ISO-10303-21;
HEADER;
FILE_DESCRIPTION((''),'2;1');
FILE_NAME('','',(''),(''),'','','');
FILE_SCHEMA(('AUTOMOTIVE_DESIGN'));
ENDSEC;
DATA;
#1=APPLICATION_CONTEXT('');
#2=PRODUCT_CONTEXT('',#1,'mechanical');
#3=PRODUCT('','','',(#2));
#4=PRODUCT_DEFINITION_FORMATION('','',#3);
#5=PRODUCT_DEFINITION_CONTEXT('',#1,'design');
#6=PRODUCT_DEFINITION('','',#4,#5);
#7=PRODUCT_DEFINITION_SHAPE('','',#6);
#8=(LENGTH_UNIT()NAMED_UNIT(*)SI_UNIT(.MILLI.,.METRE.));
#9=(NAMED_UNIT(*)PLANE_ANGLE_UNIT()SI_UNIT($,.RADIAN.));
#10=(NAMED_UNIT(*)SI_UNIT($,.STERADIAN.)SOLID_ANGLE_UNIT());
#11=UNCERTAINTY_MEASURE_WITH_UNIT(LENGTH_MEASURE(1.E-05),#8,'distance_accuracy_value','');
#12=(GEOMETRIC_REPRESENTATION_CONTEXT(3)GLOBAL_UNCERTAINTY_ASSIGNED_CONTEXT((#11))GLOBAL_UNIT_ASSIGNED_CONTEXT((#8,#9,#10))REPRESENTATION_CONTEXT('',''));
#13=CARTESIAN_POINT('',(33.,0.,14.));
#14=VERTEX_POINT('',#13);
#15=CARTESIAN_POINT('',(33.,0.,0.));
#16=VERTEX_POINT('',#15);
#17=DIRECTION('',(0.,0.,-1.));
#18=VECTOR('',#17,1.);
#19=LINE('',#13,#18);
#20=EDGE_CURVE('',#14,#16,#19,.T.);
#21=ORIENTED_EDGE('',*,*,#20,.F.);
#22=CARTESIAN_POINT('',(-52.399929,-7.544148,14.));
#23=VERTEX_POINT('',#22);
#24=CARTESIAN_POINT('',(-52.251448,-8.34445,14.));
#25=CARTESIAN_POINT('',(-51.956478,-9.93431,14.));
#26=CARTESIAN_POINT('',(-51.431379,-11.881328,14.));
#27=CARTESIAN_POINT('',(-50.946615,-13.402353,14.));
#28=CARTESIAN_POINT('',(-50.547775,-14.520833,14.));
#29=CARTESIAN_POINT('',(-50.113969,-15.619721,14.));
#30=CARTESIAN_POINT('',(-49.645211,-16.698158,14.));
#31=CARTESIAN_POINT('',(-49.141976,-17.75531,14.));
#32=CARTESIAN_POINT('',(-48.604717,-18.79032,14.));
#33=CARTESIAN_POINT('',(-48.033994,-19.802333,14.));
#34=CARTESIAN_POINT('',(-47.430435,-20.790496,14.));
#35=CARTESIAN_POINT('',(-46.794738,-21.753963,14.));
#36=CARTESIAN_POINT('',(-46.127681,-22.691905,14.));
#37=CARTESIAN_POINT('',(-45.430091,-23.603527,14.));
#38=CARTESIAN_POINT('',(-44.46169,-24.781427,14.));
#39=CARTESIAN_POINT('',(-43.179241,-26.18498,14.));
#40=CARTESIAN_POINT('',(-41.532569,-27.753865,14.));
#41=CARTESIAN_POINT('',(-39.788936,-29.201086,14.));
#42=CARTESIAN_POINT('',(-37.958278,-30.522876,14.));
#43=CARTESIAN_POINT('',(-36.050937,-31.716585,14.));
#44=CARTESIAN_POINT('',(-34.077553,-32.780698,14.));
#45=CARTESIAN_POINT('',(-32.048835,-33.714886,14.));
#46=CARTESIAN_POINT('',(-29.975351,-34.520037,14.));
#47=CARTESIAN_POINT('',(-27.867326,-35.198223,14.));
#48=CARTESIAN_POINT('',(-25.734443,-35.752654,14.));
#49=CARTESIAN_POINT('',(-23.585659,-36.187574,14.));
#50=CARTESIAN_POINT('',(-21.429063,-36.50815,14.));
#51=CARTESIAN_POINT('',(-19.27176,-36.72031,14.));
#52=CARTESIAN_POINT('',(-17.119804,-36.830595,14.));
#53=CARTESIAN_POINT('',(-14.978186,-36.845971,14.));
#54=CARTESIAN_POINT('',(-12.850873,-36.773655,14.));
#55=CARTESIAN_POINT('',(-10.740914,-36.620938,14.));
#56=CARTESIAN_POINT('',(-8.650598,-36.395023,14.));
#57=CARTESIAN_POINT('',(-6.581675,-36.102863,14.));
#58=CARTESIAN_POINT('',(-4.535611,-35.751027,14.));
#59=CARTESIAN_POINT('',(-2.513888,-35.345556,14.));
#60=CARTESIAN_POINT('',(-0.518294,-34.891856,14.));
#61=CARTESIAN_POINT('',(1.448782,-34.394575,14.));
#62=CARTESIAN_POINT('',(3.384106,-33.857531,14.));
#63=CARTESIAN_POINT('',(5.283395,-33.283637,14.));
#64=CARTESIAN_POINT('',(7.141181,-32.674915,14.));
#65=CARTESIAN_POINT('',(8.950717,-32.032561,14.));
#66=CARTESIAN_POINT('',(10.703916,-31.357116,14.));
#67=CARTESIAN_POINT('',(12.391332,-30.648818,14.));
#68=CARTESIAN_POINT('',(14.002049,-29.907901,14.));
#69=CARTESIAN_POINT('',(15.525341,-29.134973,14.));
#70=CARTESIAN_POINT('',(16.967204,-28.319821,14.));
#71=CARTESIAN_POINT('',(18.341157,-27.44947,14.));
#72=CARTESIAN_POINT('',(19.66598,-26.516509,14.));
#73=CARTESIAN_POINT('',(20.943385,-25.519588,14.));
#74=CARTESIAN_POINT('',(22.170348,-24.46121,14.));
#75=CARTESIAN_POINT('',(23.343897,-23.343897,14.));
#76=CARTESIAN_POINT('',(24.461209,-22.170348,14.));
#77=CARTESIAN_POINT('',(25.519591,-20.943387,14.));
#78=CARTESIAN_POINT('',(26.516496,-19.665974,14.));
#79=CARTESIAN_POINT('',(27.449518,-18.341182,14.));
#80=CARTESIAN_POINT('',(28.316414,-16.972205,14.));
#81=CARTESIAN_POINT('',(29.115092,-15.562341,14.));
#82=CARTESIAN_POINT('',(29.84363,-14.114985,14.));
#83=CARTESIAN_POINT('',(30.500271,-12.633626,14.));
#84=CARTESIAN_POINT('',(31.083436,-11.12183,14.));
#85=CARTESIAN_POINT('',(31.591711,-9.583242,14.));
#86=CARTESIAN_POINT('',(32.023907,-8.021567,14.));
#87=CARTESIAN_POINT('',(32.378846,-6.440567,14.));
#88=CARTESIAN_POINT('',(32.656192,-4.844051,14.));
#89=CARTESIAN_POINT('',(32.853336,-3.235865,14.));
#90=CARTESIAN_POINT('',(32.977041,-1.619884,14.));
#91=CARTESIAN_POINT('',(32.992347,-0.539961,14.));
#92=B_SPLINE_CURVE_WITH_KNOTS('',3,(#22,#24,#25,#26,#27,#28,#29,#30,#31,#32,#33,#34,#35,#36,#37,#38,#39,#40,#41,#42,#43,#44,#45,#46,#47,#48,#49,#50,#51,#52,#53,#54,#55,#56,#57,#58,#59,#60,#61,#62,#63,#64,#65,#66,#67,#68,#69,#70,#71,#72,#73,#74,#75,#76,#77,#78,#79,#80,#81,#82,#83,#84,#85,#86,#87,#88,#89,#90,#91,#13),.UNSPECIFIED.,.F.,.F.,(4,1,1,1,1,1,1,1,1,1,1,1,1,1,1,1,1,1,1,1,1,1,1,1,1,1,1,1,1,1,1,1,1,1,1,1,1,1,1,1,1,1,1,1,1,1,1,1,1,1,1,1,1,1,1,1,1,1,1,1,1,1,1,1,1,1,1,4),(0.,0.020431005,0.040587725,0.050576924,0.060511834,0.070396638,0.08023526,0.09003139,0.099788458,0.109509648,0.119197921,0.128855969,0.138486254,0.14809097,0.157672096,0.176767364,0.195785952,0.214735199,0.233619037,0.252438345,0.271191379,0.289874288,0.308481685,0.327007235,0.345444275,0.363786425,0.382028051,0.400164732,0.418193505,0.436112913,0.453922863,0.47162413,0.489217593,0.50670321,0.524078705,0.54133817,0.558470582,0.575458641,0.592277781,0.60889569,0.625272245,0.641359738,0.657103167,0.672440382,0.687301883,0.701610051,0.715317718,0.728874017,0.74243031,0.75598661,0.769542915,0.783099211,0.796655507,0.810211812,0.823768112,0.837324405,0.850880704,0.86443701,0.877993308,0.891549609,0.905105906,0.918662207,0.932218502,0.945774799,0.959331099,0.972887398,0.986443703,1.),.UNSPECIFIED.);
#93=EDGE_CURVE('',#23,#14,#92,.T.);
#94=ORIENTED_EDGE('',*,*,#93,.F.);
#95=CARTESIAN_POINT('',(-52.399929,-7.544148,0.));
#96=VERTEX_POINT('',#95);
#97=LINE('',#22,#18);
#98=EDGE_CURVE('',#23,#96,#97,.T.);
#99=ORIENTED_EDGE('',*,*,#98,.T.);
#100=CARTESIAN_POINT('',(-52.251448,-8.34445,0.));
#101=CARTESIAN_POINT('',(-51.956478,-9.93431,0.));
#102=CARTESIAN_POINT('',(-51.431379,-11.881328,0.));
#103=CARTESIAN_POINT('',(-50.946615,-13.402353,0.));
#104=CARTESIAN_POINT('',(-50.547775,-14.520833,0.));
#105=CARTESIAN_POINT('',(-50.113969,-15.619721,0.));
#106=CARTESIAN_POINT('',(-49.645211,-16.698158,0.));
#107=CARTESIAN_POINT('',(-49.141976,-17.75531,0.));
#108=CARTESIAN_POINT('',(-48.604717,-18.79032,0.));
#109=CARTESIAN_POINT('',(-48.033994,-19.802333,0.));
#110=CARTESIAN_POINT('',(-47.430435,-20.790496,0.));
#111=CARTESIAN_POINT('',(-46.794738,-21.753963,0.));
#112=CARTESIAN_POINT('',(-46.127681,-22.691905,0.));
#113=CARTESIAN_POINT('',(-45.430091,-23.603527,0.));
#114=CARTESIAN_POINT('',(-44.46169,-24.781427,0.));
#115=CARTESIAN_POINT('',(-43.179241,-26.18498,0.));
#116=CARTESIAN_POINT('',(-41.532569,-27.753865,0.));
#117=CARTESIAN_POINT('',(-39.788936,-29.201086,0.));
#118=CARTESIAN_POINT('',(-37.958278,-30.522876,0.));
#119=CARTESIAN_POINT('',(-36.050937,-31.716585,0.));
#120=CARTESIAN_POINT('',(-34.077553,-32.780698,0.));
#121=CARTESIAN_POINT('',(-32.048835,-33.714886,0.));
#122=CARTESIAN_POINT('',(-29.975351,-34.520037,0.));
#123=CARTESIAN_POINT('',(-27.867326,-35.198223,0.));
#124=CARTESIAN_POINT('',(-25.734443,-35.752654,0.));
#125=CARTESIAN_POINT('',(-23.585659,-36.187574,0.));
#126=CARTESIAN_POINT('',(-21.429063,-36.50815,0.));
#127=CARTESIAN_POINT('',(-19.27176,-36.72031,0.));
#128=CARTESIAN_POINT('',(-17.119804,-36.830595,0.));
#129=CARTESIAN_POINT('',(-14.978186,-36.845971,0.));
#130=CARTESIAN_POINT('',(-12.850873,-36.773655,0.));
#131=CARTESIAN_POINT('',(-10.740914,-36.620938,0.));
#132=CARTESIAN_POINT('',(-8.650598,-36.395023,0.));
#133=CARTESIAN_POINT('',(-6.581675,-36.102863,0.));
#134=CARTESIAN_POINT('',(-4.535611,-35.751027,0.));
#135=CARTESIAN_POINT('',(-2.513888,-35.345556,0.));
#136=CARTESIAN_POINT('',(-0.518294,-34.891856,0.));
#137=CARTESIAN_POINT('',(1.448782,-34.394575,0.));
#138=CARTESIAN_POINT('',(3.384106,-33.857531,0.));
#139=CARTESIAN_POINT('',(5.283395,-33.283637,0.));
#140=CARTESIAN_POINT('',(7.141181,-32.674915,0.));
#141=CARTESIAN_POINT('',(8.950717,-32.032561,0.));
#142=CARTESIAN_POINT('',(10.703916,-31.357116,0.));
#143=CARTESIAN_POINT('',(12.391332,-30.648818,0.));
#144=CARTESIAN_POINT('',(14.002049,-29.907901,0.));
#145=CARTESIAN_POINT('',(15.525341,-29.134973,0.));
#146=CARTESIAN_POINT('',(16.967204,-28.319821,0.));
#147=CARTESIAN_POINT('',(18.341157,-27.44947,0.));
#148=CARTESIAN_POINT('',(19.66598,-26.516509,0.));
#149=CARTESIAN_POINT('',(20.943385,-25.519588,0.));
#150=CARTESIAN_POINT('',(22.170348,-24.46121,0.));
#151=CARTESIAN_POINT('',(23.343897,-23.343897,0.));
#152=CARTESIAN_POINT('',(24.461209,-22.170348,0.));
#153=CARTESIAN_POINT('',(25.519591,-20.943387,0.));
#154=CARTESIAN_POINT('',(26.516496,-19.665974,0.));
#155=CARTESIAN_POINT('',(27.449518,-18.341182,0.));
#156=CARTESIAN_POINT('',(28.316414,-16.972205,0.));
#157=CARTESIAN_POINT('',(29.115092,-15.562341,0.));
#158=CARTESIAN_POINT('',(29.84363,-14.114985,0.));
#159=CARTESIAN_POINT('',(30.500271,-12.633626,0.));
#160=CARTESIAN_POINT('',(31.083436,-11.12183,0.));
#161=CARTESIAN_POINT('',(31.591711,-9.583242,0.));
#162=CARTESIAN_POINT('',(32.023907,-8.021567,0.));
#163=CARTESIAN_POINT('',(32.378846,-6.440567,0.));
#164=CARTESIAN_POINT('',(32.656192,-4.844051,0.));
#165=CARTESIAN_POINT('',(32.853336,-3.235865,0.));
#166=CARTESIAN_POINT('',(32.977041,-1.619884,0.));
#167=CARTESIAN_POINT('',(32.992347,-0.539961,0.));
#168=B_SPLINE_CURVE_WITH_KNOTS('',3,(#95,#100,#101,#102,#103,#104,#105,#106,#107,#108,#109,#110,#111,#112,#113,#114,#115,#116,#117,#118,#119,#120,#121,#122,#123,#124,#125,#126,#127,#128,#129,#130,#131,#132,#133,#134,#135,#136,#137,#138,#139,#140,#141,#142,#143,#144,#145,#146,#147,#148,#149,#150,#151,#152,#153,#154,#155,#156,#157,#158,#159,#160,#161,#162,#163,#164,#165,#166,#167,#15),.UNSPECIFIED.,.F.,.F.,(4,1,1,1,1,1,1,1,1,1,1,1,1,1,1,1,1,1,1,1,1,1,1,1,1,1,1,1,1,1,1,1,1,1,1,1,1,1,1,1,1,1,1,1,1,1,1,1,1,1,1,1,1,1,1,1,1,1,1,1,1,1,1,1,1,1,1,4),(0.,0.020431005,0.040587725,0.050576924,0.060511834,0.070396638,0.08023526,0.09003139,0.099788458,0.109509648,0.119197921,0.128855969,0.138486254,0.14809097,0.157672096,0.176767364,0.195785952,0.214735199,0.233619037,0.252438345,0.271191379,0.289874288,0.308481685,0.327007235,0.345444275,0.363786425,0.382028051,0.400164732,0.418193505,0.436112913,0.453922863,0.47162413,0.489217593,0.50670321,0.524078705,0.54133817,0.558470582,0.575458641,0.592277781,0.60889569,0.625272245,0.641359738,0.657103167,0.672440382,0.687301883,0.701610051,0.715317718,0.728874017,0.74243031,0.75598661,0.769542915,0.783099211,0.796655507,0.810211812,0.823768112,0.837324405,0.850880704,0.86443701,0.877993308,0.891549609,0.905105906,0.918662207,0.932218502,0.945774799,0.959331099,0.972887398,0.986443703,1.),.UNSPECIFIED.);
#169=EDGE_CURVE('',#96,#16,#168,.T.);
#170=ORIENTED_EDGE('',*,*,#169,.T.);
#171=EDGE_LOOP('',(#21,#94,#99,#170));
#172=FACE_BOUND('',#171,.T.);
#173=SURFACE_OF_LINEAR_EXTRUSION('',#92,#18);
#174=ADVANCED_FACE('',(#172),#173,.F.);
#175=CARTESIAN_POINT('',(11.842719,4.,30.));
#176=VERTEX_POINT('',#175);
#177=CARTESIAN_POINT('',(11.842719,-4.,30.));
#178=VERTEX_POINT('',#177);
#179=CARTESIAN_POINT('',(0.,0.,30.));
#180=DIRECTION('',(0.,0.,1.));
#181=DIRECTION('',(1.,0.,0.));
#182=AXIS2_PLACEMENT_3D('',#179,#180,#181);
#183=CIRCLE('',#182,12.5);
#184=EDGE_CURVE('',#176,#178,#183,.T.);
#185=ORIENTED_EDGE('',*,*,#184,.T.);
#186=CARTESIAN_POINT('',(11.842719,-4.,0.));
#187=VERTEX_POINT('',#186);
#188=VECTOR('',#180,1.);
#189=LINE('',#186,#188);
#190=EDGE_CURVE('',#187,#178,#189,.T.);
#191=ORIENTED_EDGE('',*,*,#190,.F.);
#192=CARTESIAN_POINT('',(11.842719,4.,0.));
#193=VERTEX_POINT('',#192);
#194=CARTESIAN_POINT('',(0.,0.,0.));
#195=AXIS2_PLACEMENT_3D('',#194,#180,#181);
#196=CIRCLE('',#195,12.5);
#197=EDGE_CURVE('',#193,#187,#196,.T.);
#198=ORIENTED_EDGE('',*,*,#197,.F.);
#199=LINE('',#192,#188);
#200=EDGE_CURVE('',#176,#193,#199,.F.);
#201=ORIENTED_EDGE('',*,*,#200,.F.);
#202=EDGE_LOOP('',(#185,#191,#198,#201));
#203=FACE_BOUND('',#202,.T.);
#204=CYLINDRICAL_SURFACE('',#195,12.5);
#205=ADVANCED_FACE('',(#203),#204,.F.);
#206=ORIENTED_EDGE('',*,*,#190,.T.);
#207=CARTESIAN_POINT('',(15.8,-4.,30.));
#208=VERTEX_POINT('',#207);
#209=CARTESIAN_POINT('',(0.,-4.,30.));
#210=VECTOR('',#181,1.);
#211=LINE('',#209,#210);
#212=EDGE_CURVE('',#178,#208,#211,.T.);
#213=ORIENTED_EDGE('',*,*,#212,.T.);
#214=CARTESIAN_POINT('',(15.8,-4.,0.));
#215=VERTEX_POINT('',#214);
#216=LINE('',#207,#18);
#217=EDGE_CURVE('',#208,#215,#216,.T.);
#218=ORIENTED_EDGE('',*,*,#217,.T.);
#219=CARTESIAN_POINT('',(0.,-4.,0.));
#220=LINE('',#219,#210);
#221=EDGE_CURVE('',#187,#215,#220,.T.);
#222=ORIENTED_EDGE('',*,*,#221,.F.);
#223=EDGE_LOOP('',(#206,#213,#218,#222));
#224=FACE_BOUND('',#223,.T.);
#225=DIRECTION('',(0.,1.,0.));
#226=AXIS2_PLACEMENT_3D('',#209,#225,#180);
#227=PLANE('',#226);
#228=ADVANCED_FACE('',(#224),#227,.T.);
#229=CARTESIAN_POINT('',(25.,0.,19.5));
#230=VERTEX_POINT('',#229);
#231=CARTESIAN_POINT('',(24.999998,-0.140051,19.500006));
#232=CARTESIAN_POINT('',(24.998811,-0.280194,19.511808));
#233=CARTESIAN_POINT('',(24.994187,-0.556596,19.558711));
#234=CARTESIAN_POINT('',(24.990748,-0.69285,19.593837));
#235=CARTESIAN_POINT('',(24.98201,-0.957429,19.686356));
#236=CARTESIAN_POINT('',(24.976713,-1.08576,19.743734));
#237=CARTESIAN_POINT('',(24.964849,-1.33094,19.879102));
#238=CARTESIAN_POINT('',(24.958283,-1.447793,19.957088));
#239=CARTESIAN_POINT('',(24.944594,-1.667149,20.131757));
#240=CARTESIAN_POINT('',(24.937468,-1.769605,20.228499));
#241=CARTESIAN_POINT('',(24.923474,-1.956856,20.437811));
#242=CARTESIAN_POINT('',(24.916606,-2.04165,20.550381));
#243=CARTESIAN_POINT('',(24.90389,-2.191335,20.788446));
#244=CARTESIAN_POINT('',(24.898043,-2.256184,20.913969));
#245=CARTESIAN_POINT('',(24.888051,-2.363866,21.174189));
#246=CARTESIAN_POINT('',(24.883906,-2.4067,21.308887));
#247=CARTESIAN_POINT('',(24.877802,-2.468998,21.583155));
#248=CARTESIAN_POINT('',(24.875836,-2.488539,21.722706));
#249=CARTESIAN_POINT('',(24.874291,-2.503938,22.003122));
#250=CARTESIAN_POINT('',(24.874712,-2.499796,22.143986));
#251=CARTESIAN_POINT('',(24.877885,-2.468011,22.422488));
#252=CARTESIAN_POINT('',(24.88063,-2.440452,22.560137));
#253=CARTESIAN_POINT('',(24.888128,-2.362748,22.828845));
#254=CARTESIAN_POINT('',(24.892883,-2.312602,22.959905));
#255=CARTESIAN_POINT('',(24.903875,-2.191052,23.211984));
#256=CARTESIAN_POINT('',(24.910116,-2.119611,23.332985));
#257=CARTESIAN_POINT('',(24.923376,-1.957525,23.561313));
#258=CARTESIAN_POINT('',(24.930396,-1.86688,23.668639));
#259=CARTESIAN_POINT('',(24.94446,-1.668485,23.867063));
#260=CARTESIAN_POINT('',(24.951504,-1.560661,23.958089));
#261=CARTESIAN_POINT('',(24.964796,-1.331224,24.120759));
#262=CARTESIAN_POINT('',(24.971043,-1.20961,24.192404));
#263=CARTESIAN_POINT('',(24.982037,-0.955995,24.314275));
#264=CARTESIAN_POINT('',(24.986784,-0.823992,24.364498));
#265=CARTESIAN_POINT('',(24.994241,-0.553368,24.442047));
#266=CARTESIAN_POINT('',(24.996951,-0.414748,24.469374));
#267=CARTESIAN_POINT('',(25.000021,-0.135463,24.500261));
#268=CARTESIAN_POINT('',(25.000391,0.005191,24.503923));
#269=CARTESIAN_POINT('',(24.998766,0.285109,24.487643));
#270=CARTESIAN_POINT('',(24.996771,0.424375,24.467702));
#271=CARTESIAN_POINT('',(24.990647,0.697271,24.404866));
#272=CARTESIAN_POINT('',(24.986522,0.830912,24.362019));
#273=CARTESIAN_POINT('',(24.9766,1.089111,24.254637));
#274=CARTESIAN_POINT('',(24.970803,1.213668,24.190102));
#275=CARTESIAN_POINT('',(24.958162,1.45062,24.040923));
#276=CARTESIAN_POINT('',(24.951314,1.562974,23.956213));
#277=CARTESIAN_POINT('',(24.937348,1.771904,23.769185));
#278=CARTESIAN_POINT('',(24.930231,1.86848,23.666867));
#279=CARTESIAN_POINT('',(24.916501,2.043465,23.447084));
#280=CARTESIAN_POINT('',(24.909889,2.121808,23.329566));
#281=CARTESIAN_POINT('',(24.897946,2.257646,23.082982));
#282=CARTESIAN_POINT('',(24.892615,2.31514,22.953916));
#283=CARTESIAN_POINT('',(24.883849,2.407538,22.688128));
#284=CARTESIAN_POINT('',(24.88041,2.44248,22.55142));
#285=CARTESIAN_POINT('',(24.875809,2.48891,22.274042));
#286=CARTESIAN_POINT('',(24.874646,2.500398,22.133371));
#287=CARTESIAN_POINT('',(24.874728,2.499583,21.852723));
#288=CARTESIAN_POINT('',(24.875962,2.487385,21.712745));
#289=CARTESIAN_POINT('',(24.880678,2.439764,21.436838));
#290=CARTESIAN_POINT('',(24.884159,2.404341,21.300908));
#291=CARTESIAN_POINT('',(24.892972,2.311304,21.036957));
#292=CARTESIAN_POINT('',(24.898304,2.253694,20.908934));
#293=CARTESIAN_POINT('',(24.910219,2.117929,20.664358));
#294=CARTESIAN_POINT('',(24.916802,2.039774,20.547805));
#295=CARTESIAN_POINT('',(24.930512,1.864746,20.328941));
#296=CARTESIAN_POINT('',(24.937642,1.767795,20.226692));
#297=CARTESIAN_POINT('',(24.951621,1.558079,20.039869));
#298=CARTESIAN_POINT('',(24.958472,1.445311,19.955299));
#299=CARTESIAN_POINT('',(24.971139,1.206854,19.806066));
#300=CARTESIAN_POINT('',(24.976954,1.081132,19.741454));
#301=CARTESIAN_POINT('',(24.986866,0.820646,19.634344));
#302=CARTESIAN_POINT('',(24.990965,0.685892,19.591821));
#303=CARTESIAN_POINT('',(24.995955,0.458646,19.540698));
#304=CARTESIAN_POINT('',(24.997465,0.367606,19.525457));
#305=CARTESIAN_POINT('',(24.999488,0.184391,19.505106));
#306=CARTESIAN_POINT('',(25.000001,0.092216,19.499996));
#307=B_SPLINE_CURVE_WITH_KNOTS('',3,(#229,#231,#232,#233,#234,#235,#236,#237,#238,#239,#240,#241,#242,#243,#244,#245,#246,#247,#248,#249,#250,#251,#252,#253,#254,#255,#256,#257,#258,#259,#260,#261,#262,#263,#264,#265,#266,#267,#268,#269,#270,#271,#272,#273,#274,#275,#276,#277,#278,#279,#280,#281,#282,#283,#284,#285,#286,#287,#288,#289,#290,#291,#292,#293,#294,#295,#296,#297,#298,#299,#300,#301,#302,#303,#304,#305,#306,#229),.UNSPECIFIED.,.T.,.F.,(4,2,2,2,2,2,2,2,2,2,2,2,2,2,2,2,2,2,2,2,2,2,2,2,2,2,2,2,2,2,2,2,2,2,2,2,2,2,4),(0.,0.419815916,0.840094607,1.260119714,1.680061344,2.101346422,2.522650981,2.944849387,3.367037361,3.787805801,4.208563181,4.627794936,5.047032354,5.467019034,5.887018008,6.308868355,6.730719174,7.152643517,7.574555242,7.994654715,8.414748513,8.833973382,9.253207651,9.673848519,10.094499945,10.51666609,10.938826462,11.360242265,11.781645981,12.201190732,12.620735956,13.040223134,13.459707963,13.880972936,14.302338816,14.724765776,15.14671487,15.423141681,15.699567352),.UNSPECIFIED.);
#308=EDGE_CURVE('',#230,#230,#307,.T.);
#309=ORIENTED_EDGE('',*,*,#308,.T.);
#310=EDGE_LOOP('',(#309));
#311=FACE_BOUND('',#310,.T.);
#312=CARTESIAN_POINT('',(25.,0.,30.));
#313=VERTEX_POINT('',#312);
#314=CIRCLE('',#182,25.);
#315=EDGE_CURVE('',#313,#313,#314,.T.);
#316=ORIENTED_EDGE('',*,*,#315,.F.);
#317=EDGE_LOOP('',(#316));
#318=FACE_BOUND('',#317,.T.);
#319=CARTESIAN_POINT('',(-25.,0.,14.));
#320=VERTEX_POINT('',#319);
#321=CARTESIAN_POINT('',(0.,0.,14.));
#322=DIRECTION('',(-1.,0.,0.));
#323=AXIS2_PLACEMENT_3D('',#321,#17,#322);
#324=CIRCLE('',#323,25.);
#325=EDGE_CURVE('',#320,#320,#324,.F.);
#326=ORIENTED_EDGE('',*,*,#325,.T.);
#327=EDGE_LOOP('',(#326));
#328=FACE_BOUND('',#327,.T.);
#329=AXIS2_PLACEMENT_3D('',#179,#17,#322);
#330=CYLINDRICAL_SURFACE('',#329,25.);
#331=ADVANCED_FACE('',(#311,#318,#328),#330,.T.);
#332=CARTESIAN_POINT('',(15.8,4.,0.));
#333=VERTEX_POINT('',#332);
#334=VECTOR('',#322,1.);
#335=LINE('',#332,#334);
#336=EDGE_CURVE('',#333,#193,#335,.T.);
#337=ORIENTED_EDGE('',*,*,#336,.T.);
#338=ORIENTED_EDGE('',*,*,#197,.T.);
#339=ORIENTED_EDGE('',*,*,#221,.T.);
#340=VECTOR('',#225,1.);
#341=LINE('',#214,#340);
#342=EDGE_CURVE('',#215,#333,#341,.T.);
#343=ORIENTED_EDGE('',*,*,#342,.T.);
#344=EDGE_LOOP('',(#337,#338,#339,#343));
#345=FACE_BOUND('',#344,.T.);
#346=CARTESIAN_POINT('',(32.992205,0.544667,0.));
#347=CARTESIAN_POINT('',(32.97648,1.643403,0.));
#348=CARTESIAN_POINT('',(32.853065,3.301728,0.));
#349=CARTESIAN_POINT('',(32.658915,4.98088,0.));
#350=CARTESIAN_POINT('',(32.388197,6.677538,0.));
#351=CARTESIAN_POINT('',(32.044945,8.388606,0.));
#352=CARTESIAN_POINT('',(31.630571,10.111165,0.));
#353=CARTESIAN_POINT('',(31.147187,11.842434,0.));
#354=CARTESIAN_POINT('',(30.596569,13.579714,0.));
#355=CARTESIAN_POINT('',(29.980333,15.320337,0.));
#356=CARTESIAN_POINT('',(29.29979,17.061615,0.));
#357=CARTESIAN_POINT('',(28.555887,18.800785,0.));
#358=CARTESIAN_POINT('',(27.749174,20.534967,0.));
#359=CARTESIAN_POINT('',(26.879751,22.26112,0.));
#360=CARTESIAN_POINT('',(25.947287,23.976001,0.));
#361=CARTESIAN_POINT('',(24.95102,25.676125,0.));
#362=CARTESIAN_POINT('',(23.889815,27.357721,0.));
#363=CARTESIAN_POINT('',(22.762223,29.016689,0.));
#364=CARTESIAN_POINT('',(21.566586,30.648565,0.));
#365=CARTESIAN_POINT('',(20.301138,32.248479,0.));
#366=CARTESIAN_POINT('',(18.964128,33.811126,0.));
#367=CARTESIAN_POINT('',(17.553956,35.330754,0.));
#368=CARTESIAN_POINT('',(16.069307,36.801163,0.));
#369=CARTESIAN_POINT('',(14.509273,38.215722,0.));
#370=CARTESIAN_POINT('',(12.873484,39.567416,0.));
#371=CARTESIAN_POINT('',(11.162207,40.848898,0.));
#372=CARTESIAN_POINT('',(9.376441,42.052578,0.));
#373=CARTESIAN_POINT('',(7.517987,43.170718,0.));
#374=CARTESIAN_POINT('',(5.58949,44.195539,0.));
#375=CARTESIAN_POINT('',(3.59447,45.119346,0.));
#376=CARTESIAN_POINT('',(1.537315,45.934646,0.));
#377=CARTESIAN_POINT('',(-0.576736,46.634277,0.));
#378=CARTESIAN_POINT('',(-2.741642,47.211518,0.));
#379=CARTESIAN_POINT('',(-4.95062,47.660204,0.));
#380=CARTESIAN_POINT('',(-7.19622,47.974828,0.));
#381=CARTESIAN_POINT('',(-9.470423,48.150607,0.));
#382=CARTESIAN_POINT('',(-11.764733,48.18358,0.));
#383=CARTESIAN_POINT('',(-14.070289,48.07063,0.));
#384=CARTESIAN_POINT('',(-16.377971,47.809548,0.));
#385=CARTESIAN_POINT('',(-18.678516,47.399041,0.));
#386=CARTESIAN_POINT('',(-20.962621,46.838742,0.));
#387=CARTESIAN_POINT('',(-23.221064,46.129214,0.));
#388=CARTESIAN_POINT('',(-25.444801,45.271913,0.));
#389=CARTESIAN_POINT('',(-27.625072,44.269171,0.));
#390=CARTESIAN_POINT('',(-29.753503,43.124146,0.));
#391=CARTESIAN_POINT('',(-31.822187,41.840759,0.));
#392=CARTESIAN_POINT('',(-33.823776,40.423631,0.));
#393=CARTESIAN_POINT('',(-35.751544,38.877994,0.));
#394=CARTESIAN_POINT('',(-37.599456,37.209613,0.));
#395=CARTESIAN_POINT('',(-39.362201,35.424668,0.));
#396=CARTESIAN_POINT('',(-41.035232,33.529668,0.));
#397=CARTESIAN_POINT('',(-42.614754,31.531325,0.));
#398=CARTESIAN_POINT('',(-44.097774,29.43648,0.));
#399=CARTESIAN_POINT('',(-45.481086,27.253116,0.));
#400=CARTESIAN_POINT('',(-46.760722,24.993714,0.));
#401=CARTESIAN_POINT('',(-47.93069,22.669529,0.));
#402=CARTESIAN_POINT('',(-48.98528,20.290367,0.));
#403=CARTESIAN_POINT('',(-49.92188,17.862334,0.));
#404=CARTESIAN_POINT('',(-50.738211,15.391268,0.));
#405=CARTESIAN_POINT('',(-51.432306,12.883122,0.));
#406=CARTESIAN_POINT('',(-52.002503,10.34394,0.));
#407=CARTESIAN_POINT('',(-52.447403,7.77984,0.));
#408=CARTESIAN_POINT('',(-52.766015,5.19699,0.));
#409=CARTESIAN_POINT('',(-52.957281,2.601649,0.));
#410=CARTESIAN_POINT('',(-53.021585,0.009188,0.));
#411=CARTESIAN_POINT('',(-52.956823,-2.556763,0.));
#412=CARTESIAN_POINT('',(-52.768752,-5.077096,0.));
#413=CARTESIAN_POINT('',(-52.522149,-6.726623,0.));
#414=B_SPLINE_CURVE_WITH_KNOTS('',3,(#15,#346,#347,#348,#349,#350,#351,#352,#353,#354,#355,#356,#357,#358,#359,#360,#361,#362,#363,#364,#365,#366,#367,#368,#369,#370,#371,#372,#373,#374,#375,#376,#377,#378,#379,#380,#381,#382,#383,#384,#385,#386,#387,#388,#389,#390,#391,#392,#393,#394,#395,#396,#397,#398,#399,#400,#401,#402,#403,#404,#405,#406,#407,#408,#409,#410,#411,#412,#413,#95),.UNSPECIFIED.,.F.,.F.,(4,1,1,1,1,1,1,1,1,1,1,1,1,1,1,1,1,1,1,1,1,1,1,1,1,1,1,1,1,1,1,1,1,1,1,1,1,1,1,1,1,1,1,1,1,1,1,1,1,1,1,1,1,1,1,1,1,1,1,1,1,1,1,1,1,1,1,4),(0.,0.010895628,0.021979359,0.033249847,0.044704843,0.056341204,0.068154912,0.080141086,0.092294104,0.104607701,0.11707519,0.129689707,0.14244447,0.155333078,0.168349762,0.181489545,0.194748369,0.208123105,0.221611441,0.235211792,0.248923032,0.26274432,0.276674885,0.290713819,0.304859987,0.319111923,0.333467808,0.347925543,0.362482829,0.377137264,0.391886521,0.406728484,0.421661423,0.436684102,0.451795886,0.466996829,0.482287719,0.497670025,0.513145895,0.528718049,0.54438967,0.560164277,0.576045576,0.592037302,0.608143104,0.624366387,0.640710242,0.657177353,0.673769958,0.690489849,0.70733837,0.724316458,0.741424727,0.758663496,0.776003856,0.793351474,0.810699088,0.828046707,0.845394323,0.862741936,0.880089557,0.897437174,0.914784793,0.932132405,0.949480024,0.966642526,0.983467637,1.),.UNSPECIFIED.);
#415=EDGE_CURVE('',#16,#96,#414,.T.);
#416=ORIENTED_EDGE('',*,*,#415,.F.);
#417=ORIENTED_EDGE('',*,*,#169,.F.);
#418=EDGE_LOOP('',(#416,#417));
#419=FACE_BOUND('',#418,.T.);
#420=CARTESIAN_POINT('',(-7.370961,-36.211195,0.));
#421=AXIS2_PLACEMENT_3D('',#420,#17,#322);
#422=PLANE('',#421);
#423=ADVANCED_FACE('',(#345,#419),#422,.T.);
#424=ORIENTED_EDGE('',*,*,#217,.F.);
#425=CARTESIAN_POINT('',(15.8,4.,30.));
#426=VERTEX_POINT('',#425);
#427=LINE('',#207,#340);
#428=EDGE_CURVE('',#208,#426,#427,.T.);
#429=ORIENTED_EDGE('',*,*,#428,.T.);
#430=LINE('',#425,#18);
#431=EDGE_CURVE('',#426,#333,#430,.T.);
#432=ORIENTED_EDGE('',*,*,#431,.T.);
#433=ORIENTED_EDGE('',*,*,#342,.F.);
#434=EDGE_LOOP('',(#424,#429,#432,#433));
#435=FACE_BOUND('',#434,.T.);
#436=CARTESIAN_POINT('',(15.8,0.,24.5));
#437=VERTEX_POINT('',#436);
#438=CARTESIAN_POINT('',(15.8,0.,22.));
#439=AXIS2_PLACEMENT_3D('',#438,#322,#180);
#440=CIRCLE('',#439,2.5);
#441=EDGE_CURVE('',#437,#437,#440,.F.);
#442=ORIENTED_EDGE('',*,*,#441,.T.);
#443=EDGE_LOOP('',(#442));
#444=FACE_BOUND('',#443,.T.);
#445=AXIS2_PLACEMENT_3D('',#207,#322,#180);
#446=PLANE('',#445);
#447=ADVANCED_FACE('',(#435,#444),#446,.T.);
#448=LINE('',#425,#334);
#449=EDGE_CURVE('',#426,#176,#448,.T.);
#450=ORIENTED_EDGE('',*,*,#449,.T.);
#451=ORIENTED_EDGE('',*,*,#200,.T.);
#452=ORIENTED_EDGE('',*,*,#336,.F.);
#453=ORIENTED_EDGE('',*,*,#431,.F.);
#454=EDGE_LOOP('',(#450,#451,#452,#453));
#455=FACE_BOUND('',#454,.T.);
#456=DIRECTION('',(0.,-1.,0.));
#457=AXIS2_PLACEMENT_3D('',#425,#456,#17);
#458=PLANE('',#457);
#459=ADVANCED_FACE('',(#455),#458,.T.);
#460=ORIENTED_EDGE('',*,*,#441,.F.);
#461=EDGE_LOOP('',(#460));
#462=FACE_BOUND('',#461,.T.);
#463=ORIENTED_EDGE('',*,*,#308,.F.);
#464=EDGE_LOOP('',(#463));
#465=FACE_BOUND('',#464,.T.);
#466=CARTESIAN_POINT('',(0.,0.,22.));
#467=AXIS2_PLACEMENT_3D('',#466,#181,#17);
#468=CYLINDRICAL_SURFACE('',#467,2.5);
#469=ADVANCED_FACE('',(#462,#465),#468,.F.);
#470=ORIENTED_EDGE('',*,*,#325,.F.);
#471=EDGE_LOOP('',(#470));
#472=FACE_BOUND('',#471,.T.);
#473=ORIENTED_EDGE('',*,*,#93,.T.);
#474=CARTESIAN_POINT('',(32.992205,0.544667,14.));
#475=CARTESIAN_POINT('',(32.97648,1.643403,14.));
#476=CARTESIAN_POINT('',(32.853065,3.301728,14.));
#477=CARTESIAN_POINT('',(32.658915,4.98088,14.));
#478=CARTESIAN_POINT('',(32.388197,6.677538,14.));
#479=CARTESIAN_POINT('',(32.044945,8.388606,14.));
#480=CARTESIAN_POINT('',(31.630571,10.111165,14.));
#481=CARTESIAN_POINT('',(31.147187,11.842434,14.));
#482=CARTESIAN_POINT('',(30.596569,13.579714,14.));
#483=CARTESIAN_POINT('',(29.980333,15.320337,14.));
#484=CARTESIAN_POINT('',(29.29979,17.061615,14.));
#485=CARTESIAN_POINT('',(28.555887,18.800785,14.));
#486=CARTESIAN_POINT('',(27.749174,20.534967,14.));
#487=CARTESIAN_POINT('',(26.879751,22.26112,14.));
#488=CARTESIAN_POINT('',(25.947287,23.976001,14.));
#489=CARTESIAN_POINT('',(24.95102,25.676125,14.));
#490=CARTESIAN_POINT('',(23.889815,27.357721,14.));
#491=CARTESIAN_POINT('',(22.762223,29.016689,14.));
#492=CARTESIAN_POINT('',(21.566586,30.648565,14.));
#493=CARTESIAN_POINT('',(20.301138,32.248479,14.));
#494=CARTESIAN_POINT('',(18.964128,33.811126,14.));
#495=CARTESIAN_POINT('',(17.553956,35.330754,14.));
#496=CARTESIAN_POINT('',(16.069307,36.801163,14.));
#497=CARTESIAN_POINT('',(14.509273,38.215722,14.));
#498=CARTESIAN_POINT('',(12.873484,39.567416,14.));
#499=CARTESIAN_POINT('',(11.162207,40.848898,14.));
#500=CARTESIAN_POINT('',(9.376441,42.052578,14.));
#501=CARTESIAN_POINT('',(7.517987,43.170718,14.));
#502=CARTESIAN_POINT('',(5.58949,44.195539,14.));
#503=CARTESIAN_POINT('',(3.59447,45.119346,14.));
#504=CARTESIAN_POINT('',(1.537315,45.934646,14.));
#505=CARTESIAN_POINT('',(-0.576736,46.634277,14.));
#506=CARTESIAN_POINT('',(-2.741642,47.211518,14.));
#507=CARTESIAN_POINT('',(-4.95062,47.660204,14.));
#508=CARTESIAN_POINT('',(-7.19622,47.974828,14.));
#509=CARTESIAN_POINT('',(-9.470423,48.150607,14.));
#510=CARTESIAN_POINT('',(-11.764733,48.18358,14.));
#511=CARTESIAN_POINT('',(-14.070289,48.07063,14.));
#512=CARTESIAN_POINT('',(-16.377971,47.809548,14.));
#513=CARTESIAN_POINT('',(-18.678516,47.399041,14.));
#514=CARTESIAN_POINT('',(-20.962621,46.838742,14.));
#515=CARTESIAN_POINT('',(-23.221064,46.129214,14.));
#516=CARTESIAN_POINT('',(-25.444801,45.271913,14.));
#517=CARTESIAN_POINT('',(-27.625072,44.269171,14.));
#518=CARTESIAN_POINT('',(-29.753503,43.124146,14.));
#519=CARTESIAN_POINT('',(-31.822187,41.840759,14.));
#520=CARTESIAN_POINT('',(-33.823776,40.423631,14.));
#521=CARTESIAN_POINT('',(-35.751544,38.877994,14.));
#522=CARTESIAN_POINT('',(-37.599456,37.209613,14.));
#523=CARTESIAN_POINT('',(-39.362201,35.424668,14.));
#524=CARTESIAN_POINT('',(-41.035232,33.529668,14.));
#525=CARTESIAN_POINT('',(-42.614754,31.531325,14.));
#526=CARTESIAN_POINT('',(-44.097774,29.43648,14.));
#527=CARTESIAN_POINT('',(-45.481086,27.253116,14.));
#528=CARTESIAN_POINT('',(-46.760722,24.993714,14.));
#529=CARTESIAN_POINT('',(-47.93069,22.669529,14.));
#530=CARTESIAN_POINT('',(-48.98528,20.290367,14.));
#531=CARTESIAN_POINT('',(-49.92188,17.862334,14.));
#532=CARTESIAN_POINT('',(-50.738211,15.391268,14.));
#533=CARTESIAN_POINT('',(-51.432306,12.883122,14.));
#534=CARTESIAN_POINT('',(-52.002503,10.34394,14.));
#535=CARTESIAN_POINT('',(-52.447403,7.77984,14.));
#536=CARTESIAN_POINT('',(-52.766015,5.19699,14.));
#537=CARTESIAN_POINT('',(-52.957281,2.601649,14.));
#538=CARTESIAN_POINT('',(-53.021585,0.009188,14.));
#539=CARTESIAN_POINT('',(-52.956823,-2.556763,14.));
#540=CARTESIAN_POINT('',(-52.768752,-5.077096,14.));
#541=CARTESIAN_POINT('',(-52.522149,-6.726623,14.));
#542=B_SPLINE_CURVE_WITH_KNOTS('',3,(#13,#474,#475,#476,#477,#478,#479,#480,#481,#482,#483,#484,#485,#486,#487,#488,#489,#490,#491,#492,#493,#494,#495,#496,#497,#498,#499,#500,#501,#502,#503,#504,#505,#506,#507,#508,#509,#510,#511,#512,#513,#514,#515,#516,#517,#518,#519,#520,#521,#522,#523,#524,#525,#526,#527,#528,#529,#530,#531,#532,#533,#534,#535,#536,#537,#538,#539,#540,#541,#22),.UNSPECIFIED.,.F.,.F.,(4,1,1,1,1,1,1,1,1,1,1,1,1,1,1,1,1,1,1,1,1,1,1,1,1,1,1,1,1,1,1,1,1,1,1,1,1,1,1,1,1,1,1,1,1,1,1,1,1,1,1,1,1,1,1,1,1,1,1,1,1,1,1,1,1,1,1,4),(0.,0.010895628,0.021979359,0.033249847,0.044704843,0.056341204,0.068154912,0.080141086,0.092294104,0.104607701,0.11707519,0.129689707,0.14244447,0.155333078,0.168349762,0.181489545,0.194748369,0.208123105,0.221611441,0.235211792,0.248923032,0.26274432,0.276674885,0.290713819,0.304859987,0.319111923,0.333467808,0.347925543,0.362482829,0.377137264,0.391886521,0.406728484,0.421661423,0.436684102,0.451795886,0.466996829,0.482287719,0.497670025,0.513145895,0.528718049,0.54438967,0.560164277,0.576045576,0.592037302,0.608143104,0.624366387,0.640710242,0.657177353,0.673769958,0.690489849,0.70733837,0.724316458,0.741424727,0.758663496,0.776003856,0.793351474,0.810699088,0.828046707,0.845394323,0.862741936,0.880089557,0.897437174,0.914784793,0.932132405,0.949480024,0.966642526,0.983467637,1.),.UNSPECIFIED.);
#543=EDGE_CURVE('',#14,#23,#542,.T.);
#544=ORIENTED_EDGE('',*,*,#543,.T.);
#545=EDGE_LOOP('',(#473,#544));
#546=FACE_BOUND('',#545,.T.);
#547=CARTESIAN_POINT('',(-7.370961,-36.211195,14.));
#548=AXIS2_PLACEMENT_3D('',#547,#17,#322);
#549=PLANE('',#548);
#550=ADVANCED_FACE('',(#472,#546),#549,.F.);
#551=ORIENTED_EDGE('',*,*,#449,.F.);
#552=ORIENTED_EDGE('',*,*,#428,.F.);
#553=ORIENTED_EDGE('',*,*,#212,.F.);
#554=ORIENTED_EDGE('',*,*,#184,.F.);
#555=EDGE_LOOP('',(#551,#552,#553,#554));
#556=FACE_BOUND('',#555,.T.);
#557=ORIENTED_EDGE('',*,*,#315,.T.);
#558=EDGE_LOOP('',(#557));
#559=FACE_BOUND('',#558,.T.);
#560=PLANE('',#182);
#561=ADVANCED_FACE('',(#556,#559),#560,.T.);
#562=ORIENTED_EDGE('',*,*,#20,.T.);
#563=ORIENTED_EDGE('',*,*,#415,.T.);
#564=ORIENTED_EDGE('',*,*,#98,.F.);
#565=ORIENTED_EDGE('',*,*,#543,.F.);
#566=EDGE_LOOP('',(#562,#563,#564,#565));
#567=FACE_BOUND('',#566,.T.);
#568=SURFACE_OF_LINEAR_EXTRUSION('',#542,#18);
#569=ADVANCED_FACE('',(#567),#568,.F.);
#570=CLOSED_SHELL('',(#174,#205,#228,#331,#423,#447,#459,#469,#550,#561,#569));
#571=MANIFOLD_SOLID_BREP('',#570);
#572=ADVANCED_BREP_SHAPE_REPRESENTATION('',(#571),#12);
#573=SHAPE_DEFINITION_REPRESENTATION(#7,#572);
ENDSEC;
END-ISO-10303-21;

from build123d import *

# Parameters (mm, degrees)
EXTRUDE_1_DEPTH     = 14
SKETCH_2_R          = 25
EXTRUDE_2_DEPTH     = 30
SKETCH_3_R          = 12.5
CUT_EXTRUDE_1_DEPTH = 78.64562782
SWEEP_2_PROFILE_R   = 2.5
SKETCH_8_W          = 15.8
SKETCH_8_H          = 8
CUT_EXTRUDE_3_DEPTH = 78.64562782


with BuildPart() as part:
    # 草图1 → 凸台-拉伸1 (new body)
    with BuildSketch(Plane.XY):
        with BuildLine():
            add(Edge.make_bspline(
                [(33, 0), (32.992204895, 0.544666729), (32.976480109, 1.643403319), (32.853064931, 3.301727765), (32.658915426, 4.980879695), (32.388196689, 6.677537715), (32.044944958, 8.388606268), (31.630570565, 10.111165253), (31.147186794, 11.842433965), (30.596568938, 13.57971361), (29.98033344, 15.320337013), (29.299789777, 17.061615147), (28.555887029, 18.800784535), (27.749173646, 20.534967231), (26.879751228, 22.261119957), (25.947286594, 23.976001144), (24.951020471, 25.676125073), (23.889814679, 27.35772059), (22.762223009, 29.016688558), (21.566586312, 30.648565024), (20.301138192, 32.248479161), (18.964127555, 33.81112609), (17.553956129, 35.330754232), (16.069306796, 36.801162963), (14.509273248, 38.215722303), (12.873484417, 39.567416225), (11.162207045, 40.848898292), (9.376441015, 42.052578226), (7.517986505, 43.170717712), (5.589490091, 44.195539218), (3.594469744, 45.119346278), (1.53731504, 45.934646153), (-0.576735961, 46.634276616), (-2.74164203, 47.211518041), (-4.950619716, 47.660204084), (-7.196219851, 47.974828288), (-9.470422571, 48.150607487), (-11.76473259, 48.183580117), (-14.070288761, 48.070629868), (-16.377971366, 47.809547695), (-18.67851562, 47.399040683), (-20.96262116, 46.838742341), (-23.221064088, 46.12921357), (-25.444800735, 45.271912976), (-27.625072088, 44.269170741), (-29.753502784, 43.124146476), (-31.822186889, 41.840759247), (-33.823775568, 40.423630812), (-35.751543622, 38.877994203), (-37.599456194, 37.209613013), (-39.362201277, 35.424668235), (-41.035231852, 33.529668236), (-42.614754199, 31.53132517), (-44.09777446, 29.436479773), (-45.481085646, 27.253115728), (-46.760721786, 24.993714386), (-47.930689696, 22.669528818), (-48.985280232, 20.290366962), (-49.921879744, 17.86233444), (-50.73821056, 15.391267947), (-51.432305812, 12.8831224), (-52.002502766, 10.343940159), (-52.447402955, 7.779839842), (-52.766015438, 5.196990334), (-52.957281079, 2.601648936), (-53.021584789, 0.009188241), (-52.95682309, -2.556762808), (-52.768752296, -5.077096398), (-52.522148692, -6.726622939), (-52.399929, -7.544148)],
                knots=[0, 0, 0, 0, 0.010895628, 0.021979359, 0.033249847, 0.044704843, 0.056341204, 0.068154912, 0.080141086, 0.092294104, 0.104607701, 0.11707519, 0.129689707, 0.14244447, 0.155333078, 0.168349762, 0.181489545, 0.194748369, 0.208123105, 0.221611441, 0.235211792, 0.248923032, 0.26274432, 0.276674885, 0.290713819, 0.304859987, 0.319111923, 0.333467808, 0.347925543, 0.362482829, 0.377137264, 0.391886521, 0.406728484, 0.421661423, 0.436684102, 0.451795886, 0.466996829, 0.482287719, 0.497670025, 0.513145895, 0.528718049, 0.54438967, 0.560164277, 0.576045576, 0.592037302, 0.608143104, 0.624366387, 0.640710242, 0.657177353, 0.673769958, 0.690489849, 0.70733837, 0.724316458, 0.741424727, 0.758663496, 0.776003856, 0.793351474, 0.810699088, 0.828046707, 0.845394323, 0.862741936, 0.880089557, 0.897437174, 0.914784793, 0.932132405, 0.949480024, 0.966642526, 0.983467637, 1, 1, 1, 1], degree=3))
            add(Edge.make_bspline(
                [(-52.399929, -7.544148), (-52.251447511, -8.344449933), (-51.956477891, -9.93430977), (-51.431378847, -11.881327743), (-50.946615492, -13.402352601), (-50.547774852, -14.520833098), (-50.113968755, -15.61972104), (-49.645210909, -16.698158038), (-49.141976069, -17.755310038), (-48.604716766, -18.790320175), (-48.033993716, -19.80233339), (-47.430434687, -20.790495875), (-46.794737646, -21.753963168), (-46.127681435, -22.691905033), (-45.430091118, -23.603527112), (-44.461690461, -24.78142675), (-43.179240858, -26.184980253), (-41.532569131, -27.753864704), (-39.788936475, -29.201085533), (-37.95827815, -30.522875718), (-36.050936512, -31.716585493), (-34.077553488, -32.780697635), (-32.048834528, -33.714886161), (-29.975350706, -34.520036776), (-27.867326416, -35.19822348), (-25.734442747, -35.752653633), (-23.585659114, -36.187574089), (-21.429063355, -36.50814968), (-19.27176002, -36.720310246), (-17.119804246, -36.830595085), (-14.978186003, -36.845970949), (-12.850873113, -36.773654705), (-10.740913687, -36.620937922), (-8.650597875, -36.395022526), (-6.581674525, -36.102863407), (-4.535611161, -35.751026937), (-2.513887786, -35.345556209), (-0.518293788, -34.891856115), (1.448781863, -34.394574738), (3.384105738, -33.857530642), (5.283395004, -33.283637208), (7.141181014, -32.67491492), (8.950717416, -32.03256093), (10.703916152, -31.357116), (12.391331701, -30.648817619), (14.002048983, -29.907900792), (15.525340793, -29.134972637), (16.967203751, -28.319820567), (18.341157037, -27.449470169), (19.665980256, -26.516508819), (20.943385245, -25.51958757), (22.170348028, -24.461209886), (23.343896741, -23.343896621), (24.461208994, -22.170347615), (25.519591016, -20.943387015), (26.516495927, -19.665973587), (27.449518295, -18.341181942), (28.316413718, -16.972205388), (29.115091885, -15.562340777), (29.843629808, -14.114985263), (30.500271052, -12.633625806), (31.083435636, -11.121830348), (31.591710671, -9.583242061), (32.023907296, -8.021566688), (32.37884622, -6.440566847), (32.656192002, -4.844051032), (32.853335771, -3.23586502), (32.977041039, -1.619883695), (32.992347014, -0.539961135), (33, 0)],
                knots=[0, 0, 0, 0, 0.020431005, 0.040587725, 0.050576924, 0.060511834, 0.070396638, 0.08023526, 0.09003139, 0.099788458, 0.109509648, 0.119197921, 0.128855969, 0.138486254, 0.14809097, 0.157672096, 0.176767364, 0.195785952, 0.214735199, 0.233619037, 0.252438345, 0.271191379, 0.289874288, 0.308481685, 0.327007235, 0.345444275, 0.363786425, 0.382028051, 0.400164732, 0.418193505, 0.436112913, 0.453922863, 0.47162413, 0.489217593, 0.50670321, 0.524078705, 0.54133817, 0.558470582, 0.575458641, 0.592277781, 0.60889569, 0.625272245, 0.641359738, 0.657103167, 0.672440382, 0.687301883, 0.701610051, 0.715317718, 0.728874017, 0.74243031, 0.75598661, 0.769542915, 0.783099211, 0.796655507, 0.810211812, 0.823768112, 0.837324405, 0.850880704, 0.86443701, 0.877993308, 0.891549609, 0.905105906, 0.918662207, 0.932218502, 0.945774799, 0.959331099, 0.972887398, 0.986443703, 1, 1, 1, 1], degree=3))
        make_face()
    extrude(amount=EXTRUDE_1_DEPTH)

    # 草图2 → 凸台-拉伸2 (add)
    with BuildSketch(Plane.XY):
        with Locations(Location((0, 0, 0), (0, 0, 180))):
            Circle(SKETCH_2_R)
    extrude(amount=EXTRUDE_2_DEPTH)

    # 草图3 → 切除-拉伸1 (cut, through all)
    with BuildSketch(Plane.XY.offset(30)):
        Circle(SKETCH_3_R)
    extrude(amount=-CUT_EXTRUDE_1_DEPTH, mode=Mode.SUBTRACT)

    # 切除-扫描2: sweep along a curve in space
    with BuildLine() as sweep_2_path:
        Line((0, 0, 22), (27, 0, 22))
    # 切除-扫描2 profile (on start of the path) → 切除-扫描2 (sweep, cut)
    with BuildSketch(Plane(origin=(0, 0, 22), x_dir=(0, 0, 1), z_dir=(1, 0, 0))):
        Circle(SWEEP_2_PROFILE_R)
    sweep(path=sweep_2_path.line, mode=Mode.SUBTRACT)

    # 草图8 → 切除-拉伸3 (cut, through all)
    with BuildSketch(Plane.XY):
        with Locations((7.9, 0)):
            Rectangle(SKETCH_8_W, SKETCH_8_H)
    extrude(amount=CUT_EXTRUDE_3_DEPTH, mode=Mode.SUBTRACT)


solid = part.part
